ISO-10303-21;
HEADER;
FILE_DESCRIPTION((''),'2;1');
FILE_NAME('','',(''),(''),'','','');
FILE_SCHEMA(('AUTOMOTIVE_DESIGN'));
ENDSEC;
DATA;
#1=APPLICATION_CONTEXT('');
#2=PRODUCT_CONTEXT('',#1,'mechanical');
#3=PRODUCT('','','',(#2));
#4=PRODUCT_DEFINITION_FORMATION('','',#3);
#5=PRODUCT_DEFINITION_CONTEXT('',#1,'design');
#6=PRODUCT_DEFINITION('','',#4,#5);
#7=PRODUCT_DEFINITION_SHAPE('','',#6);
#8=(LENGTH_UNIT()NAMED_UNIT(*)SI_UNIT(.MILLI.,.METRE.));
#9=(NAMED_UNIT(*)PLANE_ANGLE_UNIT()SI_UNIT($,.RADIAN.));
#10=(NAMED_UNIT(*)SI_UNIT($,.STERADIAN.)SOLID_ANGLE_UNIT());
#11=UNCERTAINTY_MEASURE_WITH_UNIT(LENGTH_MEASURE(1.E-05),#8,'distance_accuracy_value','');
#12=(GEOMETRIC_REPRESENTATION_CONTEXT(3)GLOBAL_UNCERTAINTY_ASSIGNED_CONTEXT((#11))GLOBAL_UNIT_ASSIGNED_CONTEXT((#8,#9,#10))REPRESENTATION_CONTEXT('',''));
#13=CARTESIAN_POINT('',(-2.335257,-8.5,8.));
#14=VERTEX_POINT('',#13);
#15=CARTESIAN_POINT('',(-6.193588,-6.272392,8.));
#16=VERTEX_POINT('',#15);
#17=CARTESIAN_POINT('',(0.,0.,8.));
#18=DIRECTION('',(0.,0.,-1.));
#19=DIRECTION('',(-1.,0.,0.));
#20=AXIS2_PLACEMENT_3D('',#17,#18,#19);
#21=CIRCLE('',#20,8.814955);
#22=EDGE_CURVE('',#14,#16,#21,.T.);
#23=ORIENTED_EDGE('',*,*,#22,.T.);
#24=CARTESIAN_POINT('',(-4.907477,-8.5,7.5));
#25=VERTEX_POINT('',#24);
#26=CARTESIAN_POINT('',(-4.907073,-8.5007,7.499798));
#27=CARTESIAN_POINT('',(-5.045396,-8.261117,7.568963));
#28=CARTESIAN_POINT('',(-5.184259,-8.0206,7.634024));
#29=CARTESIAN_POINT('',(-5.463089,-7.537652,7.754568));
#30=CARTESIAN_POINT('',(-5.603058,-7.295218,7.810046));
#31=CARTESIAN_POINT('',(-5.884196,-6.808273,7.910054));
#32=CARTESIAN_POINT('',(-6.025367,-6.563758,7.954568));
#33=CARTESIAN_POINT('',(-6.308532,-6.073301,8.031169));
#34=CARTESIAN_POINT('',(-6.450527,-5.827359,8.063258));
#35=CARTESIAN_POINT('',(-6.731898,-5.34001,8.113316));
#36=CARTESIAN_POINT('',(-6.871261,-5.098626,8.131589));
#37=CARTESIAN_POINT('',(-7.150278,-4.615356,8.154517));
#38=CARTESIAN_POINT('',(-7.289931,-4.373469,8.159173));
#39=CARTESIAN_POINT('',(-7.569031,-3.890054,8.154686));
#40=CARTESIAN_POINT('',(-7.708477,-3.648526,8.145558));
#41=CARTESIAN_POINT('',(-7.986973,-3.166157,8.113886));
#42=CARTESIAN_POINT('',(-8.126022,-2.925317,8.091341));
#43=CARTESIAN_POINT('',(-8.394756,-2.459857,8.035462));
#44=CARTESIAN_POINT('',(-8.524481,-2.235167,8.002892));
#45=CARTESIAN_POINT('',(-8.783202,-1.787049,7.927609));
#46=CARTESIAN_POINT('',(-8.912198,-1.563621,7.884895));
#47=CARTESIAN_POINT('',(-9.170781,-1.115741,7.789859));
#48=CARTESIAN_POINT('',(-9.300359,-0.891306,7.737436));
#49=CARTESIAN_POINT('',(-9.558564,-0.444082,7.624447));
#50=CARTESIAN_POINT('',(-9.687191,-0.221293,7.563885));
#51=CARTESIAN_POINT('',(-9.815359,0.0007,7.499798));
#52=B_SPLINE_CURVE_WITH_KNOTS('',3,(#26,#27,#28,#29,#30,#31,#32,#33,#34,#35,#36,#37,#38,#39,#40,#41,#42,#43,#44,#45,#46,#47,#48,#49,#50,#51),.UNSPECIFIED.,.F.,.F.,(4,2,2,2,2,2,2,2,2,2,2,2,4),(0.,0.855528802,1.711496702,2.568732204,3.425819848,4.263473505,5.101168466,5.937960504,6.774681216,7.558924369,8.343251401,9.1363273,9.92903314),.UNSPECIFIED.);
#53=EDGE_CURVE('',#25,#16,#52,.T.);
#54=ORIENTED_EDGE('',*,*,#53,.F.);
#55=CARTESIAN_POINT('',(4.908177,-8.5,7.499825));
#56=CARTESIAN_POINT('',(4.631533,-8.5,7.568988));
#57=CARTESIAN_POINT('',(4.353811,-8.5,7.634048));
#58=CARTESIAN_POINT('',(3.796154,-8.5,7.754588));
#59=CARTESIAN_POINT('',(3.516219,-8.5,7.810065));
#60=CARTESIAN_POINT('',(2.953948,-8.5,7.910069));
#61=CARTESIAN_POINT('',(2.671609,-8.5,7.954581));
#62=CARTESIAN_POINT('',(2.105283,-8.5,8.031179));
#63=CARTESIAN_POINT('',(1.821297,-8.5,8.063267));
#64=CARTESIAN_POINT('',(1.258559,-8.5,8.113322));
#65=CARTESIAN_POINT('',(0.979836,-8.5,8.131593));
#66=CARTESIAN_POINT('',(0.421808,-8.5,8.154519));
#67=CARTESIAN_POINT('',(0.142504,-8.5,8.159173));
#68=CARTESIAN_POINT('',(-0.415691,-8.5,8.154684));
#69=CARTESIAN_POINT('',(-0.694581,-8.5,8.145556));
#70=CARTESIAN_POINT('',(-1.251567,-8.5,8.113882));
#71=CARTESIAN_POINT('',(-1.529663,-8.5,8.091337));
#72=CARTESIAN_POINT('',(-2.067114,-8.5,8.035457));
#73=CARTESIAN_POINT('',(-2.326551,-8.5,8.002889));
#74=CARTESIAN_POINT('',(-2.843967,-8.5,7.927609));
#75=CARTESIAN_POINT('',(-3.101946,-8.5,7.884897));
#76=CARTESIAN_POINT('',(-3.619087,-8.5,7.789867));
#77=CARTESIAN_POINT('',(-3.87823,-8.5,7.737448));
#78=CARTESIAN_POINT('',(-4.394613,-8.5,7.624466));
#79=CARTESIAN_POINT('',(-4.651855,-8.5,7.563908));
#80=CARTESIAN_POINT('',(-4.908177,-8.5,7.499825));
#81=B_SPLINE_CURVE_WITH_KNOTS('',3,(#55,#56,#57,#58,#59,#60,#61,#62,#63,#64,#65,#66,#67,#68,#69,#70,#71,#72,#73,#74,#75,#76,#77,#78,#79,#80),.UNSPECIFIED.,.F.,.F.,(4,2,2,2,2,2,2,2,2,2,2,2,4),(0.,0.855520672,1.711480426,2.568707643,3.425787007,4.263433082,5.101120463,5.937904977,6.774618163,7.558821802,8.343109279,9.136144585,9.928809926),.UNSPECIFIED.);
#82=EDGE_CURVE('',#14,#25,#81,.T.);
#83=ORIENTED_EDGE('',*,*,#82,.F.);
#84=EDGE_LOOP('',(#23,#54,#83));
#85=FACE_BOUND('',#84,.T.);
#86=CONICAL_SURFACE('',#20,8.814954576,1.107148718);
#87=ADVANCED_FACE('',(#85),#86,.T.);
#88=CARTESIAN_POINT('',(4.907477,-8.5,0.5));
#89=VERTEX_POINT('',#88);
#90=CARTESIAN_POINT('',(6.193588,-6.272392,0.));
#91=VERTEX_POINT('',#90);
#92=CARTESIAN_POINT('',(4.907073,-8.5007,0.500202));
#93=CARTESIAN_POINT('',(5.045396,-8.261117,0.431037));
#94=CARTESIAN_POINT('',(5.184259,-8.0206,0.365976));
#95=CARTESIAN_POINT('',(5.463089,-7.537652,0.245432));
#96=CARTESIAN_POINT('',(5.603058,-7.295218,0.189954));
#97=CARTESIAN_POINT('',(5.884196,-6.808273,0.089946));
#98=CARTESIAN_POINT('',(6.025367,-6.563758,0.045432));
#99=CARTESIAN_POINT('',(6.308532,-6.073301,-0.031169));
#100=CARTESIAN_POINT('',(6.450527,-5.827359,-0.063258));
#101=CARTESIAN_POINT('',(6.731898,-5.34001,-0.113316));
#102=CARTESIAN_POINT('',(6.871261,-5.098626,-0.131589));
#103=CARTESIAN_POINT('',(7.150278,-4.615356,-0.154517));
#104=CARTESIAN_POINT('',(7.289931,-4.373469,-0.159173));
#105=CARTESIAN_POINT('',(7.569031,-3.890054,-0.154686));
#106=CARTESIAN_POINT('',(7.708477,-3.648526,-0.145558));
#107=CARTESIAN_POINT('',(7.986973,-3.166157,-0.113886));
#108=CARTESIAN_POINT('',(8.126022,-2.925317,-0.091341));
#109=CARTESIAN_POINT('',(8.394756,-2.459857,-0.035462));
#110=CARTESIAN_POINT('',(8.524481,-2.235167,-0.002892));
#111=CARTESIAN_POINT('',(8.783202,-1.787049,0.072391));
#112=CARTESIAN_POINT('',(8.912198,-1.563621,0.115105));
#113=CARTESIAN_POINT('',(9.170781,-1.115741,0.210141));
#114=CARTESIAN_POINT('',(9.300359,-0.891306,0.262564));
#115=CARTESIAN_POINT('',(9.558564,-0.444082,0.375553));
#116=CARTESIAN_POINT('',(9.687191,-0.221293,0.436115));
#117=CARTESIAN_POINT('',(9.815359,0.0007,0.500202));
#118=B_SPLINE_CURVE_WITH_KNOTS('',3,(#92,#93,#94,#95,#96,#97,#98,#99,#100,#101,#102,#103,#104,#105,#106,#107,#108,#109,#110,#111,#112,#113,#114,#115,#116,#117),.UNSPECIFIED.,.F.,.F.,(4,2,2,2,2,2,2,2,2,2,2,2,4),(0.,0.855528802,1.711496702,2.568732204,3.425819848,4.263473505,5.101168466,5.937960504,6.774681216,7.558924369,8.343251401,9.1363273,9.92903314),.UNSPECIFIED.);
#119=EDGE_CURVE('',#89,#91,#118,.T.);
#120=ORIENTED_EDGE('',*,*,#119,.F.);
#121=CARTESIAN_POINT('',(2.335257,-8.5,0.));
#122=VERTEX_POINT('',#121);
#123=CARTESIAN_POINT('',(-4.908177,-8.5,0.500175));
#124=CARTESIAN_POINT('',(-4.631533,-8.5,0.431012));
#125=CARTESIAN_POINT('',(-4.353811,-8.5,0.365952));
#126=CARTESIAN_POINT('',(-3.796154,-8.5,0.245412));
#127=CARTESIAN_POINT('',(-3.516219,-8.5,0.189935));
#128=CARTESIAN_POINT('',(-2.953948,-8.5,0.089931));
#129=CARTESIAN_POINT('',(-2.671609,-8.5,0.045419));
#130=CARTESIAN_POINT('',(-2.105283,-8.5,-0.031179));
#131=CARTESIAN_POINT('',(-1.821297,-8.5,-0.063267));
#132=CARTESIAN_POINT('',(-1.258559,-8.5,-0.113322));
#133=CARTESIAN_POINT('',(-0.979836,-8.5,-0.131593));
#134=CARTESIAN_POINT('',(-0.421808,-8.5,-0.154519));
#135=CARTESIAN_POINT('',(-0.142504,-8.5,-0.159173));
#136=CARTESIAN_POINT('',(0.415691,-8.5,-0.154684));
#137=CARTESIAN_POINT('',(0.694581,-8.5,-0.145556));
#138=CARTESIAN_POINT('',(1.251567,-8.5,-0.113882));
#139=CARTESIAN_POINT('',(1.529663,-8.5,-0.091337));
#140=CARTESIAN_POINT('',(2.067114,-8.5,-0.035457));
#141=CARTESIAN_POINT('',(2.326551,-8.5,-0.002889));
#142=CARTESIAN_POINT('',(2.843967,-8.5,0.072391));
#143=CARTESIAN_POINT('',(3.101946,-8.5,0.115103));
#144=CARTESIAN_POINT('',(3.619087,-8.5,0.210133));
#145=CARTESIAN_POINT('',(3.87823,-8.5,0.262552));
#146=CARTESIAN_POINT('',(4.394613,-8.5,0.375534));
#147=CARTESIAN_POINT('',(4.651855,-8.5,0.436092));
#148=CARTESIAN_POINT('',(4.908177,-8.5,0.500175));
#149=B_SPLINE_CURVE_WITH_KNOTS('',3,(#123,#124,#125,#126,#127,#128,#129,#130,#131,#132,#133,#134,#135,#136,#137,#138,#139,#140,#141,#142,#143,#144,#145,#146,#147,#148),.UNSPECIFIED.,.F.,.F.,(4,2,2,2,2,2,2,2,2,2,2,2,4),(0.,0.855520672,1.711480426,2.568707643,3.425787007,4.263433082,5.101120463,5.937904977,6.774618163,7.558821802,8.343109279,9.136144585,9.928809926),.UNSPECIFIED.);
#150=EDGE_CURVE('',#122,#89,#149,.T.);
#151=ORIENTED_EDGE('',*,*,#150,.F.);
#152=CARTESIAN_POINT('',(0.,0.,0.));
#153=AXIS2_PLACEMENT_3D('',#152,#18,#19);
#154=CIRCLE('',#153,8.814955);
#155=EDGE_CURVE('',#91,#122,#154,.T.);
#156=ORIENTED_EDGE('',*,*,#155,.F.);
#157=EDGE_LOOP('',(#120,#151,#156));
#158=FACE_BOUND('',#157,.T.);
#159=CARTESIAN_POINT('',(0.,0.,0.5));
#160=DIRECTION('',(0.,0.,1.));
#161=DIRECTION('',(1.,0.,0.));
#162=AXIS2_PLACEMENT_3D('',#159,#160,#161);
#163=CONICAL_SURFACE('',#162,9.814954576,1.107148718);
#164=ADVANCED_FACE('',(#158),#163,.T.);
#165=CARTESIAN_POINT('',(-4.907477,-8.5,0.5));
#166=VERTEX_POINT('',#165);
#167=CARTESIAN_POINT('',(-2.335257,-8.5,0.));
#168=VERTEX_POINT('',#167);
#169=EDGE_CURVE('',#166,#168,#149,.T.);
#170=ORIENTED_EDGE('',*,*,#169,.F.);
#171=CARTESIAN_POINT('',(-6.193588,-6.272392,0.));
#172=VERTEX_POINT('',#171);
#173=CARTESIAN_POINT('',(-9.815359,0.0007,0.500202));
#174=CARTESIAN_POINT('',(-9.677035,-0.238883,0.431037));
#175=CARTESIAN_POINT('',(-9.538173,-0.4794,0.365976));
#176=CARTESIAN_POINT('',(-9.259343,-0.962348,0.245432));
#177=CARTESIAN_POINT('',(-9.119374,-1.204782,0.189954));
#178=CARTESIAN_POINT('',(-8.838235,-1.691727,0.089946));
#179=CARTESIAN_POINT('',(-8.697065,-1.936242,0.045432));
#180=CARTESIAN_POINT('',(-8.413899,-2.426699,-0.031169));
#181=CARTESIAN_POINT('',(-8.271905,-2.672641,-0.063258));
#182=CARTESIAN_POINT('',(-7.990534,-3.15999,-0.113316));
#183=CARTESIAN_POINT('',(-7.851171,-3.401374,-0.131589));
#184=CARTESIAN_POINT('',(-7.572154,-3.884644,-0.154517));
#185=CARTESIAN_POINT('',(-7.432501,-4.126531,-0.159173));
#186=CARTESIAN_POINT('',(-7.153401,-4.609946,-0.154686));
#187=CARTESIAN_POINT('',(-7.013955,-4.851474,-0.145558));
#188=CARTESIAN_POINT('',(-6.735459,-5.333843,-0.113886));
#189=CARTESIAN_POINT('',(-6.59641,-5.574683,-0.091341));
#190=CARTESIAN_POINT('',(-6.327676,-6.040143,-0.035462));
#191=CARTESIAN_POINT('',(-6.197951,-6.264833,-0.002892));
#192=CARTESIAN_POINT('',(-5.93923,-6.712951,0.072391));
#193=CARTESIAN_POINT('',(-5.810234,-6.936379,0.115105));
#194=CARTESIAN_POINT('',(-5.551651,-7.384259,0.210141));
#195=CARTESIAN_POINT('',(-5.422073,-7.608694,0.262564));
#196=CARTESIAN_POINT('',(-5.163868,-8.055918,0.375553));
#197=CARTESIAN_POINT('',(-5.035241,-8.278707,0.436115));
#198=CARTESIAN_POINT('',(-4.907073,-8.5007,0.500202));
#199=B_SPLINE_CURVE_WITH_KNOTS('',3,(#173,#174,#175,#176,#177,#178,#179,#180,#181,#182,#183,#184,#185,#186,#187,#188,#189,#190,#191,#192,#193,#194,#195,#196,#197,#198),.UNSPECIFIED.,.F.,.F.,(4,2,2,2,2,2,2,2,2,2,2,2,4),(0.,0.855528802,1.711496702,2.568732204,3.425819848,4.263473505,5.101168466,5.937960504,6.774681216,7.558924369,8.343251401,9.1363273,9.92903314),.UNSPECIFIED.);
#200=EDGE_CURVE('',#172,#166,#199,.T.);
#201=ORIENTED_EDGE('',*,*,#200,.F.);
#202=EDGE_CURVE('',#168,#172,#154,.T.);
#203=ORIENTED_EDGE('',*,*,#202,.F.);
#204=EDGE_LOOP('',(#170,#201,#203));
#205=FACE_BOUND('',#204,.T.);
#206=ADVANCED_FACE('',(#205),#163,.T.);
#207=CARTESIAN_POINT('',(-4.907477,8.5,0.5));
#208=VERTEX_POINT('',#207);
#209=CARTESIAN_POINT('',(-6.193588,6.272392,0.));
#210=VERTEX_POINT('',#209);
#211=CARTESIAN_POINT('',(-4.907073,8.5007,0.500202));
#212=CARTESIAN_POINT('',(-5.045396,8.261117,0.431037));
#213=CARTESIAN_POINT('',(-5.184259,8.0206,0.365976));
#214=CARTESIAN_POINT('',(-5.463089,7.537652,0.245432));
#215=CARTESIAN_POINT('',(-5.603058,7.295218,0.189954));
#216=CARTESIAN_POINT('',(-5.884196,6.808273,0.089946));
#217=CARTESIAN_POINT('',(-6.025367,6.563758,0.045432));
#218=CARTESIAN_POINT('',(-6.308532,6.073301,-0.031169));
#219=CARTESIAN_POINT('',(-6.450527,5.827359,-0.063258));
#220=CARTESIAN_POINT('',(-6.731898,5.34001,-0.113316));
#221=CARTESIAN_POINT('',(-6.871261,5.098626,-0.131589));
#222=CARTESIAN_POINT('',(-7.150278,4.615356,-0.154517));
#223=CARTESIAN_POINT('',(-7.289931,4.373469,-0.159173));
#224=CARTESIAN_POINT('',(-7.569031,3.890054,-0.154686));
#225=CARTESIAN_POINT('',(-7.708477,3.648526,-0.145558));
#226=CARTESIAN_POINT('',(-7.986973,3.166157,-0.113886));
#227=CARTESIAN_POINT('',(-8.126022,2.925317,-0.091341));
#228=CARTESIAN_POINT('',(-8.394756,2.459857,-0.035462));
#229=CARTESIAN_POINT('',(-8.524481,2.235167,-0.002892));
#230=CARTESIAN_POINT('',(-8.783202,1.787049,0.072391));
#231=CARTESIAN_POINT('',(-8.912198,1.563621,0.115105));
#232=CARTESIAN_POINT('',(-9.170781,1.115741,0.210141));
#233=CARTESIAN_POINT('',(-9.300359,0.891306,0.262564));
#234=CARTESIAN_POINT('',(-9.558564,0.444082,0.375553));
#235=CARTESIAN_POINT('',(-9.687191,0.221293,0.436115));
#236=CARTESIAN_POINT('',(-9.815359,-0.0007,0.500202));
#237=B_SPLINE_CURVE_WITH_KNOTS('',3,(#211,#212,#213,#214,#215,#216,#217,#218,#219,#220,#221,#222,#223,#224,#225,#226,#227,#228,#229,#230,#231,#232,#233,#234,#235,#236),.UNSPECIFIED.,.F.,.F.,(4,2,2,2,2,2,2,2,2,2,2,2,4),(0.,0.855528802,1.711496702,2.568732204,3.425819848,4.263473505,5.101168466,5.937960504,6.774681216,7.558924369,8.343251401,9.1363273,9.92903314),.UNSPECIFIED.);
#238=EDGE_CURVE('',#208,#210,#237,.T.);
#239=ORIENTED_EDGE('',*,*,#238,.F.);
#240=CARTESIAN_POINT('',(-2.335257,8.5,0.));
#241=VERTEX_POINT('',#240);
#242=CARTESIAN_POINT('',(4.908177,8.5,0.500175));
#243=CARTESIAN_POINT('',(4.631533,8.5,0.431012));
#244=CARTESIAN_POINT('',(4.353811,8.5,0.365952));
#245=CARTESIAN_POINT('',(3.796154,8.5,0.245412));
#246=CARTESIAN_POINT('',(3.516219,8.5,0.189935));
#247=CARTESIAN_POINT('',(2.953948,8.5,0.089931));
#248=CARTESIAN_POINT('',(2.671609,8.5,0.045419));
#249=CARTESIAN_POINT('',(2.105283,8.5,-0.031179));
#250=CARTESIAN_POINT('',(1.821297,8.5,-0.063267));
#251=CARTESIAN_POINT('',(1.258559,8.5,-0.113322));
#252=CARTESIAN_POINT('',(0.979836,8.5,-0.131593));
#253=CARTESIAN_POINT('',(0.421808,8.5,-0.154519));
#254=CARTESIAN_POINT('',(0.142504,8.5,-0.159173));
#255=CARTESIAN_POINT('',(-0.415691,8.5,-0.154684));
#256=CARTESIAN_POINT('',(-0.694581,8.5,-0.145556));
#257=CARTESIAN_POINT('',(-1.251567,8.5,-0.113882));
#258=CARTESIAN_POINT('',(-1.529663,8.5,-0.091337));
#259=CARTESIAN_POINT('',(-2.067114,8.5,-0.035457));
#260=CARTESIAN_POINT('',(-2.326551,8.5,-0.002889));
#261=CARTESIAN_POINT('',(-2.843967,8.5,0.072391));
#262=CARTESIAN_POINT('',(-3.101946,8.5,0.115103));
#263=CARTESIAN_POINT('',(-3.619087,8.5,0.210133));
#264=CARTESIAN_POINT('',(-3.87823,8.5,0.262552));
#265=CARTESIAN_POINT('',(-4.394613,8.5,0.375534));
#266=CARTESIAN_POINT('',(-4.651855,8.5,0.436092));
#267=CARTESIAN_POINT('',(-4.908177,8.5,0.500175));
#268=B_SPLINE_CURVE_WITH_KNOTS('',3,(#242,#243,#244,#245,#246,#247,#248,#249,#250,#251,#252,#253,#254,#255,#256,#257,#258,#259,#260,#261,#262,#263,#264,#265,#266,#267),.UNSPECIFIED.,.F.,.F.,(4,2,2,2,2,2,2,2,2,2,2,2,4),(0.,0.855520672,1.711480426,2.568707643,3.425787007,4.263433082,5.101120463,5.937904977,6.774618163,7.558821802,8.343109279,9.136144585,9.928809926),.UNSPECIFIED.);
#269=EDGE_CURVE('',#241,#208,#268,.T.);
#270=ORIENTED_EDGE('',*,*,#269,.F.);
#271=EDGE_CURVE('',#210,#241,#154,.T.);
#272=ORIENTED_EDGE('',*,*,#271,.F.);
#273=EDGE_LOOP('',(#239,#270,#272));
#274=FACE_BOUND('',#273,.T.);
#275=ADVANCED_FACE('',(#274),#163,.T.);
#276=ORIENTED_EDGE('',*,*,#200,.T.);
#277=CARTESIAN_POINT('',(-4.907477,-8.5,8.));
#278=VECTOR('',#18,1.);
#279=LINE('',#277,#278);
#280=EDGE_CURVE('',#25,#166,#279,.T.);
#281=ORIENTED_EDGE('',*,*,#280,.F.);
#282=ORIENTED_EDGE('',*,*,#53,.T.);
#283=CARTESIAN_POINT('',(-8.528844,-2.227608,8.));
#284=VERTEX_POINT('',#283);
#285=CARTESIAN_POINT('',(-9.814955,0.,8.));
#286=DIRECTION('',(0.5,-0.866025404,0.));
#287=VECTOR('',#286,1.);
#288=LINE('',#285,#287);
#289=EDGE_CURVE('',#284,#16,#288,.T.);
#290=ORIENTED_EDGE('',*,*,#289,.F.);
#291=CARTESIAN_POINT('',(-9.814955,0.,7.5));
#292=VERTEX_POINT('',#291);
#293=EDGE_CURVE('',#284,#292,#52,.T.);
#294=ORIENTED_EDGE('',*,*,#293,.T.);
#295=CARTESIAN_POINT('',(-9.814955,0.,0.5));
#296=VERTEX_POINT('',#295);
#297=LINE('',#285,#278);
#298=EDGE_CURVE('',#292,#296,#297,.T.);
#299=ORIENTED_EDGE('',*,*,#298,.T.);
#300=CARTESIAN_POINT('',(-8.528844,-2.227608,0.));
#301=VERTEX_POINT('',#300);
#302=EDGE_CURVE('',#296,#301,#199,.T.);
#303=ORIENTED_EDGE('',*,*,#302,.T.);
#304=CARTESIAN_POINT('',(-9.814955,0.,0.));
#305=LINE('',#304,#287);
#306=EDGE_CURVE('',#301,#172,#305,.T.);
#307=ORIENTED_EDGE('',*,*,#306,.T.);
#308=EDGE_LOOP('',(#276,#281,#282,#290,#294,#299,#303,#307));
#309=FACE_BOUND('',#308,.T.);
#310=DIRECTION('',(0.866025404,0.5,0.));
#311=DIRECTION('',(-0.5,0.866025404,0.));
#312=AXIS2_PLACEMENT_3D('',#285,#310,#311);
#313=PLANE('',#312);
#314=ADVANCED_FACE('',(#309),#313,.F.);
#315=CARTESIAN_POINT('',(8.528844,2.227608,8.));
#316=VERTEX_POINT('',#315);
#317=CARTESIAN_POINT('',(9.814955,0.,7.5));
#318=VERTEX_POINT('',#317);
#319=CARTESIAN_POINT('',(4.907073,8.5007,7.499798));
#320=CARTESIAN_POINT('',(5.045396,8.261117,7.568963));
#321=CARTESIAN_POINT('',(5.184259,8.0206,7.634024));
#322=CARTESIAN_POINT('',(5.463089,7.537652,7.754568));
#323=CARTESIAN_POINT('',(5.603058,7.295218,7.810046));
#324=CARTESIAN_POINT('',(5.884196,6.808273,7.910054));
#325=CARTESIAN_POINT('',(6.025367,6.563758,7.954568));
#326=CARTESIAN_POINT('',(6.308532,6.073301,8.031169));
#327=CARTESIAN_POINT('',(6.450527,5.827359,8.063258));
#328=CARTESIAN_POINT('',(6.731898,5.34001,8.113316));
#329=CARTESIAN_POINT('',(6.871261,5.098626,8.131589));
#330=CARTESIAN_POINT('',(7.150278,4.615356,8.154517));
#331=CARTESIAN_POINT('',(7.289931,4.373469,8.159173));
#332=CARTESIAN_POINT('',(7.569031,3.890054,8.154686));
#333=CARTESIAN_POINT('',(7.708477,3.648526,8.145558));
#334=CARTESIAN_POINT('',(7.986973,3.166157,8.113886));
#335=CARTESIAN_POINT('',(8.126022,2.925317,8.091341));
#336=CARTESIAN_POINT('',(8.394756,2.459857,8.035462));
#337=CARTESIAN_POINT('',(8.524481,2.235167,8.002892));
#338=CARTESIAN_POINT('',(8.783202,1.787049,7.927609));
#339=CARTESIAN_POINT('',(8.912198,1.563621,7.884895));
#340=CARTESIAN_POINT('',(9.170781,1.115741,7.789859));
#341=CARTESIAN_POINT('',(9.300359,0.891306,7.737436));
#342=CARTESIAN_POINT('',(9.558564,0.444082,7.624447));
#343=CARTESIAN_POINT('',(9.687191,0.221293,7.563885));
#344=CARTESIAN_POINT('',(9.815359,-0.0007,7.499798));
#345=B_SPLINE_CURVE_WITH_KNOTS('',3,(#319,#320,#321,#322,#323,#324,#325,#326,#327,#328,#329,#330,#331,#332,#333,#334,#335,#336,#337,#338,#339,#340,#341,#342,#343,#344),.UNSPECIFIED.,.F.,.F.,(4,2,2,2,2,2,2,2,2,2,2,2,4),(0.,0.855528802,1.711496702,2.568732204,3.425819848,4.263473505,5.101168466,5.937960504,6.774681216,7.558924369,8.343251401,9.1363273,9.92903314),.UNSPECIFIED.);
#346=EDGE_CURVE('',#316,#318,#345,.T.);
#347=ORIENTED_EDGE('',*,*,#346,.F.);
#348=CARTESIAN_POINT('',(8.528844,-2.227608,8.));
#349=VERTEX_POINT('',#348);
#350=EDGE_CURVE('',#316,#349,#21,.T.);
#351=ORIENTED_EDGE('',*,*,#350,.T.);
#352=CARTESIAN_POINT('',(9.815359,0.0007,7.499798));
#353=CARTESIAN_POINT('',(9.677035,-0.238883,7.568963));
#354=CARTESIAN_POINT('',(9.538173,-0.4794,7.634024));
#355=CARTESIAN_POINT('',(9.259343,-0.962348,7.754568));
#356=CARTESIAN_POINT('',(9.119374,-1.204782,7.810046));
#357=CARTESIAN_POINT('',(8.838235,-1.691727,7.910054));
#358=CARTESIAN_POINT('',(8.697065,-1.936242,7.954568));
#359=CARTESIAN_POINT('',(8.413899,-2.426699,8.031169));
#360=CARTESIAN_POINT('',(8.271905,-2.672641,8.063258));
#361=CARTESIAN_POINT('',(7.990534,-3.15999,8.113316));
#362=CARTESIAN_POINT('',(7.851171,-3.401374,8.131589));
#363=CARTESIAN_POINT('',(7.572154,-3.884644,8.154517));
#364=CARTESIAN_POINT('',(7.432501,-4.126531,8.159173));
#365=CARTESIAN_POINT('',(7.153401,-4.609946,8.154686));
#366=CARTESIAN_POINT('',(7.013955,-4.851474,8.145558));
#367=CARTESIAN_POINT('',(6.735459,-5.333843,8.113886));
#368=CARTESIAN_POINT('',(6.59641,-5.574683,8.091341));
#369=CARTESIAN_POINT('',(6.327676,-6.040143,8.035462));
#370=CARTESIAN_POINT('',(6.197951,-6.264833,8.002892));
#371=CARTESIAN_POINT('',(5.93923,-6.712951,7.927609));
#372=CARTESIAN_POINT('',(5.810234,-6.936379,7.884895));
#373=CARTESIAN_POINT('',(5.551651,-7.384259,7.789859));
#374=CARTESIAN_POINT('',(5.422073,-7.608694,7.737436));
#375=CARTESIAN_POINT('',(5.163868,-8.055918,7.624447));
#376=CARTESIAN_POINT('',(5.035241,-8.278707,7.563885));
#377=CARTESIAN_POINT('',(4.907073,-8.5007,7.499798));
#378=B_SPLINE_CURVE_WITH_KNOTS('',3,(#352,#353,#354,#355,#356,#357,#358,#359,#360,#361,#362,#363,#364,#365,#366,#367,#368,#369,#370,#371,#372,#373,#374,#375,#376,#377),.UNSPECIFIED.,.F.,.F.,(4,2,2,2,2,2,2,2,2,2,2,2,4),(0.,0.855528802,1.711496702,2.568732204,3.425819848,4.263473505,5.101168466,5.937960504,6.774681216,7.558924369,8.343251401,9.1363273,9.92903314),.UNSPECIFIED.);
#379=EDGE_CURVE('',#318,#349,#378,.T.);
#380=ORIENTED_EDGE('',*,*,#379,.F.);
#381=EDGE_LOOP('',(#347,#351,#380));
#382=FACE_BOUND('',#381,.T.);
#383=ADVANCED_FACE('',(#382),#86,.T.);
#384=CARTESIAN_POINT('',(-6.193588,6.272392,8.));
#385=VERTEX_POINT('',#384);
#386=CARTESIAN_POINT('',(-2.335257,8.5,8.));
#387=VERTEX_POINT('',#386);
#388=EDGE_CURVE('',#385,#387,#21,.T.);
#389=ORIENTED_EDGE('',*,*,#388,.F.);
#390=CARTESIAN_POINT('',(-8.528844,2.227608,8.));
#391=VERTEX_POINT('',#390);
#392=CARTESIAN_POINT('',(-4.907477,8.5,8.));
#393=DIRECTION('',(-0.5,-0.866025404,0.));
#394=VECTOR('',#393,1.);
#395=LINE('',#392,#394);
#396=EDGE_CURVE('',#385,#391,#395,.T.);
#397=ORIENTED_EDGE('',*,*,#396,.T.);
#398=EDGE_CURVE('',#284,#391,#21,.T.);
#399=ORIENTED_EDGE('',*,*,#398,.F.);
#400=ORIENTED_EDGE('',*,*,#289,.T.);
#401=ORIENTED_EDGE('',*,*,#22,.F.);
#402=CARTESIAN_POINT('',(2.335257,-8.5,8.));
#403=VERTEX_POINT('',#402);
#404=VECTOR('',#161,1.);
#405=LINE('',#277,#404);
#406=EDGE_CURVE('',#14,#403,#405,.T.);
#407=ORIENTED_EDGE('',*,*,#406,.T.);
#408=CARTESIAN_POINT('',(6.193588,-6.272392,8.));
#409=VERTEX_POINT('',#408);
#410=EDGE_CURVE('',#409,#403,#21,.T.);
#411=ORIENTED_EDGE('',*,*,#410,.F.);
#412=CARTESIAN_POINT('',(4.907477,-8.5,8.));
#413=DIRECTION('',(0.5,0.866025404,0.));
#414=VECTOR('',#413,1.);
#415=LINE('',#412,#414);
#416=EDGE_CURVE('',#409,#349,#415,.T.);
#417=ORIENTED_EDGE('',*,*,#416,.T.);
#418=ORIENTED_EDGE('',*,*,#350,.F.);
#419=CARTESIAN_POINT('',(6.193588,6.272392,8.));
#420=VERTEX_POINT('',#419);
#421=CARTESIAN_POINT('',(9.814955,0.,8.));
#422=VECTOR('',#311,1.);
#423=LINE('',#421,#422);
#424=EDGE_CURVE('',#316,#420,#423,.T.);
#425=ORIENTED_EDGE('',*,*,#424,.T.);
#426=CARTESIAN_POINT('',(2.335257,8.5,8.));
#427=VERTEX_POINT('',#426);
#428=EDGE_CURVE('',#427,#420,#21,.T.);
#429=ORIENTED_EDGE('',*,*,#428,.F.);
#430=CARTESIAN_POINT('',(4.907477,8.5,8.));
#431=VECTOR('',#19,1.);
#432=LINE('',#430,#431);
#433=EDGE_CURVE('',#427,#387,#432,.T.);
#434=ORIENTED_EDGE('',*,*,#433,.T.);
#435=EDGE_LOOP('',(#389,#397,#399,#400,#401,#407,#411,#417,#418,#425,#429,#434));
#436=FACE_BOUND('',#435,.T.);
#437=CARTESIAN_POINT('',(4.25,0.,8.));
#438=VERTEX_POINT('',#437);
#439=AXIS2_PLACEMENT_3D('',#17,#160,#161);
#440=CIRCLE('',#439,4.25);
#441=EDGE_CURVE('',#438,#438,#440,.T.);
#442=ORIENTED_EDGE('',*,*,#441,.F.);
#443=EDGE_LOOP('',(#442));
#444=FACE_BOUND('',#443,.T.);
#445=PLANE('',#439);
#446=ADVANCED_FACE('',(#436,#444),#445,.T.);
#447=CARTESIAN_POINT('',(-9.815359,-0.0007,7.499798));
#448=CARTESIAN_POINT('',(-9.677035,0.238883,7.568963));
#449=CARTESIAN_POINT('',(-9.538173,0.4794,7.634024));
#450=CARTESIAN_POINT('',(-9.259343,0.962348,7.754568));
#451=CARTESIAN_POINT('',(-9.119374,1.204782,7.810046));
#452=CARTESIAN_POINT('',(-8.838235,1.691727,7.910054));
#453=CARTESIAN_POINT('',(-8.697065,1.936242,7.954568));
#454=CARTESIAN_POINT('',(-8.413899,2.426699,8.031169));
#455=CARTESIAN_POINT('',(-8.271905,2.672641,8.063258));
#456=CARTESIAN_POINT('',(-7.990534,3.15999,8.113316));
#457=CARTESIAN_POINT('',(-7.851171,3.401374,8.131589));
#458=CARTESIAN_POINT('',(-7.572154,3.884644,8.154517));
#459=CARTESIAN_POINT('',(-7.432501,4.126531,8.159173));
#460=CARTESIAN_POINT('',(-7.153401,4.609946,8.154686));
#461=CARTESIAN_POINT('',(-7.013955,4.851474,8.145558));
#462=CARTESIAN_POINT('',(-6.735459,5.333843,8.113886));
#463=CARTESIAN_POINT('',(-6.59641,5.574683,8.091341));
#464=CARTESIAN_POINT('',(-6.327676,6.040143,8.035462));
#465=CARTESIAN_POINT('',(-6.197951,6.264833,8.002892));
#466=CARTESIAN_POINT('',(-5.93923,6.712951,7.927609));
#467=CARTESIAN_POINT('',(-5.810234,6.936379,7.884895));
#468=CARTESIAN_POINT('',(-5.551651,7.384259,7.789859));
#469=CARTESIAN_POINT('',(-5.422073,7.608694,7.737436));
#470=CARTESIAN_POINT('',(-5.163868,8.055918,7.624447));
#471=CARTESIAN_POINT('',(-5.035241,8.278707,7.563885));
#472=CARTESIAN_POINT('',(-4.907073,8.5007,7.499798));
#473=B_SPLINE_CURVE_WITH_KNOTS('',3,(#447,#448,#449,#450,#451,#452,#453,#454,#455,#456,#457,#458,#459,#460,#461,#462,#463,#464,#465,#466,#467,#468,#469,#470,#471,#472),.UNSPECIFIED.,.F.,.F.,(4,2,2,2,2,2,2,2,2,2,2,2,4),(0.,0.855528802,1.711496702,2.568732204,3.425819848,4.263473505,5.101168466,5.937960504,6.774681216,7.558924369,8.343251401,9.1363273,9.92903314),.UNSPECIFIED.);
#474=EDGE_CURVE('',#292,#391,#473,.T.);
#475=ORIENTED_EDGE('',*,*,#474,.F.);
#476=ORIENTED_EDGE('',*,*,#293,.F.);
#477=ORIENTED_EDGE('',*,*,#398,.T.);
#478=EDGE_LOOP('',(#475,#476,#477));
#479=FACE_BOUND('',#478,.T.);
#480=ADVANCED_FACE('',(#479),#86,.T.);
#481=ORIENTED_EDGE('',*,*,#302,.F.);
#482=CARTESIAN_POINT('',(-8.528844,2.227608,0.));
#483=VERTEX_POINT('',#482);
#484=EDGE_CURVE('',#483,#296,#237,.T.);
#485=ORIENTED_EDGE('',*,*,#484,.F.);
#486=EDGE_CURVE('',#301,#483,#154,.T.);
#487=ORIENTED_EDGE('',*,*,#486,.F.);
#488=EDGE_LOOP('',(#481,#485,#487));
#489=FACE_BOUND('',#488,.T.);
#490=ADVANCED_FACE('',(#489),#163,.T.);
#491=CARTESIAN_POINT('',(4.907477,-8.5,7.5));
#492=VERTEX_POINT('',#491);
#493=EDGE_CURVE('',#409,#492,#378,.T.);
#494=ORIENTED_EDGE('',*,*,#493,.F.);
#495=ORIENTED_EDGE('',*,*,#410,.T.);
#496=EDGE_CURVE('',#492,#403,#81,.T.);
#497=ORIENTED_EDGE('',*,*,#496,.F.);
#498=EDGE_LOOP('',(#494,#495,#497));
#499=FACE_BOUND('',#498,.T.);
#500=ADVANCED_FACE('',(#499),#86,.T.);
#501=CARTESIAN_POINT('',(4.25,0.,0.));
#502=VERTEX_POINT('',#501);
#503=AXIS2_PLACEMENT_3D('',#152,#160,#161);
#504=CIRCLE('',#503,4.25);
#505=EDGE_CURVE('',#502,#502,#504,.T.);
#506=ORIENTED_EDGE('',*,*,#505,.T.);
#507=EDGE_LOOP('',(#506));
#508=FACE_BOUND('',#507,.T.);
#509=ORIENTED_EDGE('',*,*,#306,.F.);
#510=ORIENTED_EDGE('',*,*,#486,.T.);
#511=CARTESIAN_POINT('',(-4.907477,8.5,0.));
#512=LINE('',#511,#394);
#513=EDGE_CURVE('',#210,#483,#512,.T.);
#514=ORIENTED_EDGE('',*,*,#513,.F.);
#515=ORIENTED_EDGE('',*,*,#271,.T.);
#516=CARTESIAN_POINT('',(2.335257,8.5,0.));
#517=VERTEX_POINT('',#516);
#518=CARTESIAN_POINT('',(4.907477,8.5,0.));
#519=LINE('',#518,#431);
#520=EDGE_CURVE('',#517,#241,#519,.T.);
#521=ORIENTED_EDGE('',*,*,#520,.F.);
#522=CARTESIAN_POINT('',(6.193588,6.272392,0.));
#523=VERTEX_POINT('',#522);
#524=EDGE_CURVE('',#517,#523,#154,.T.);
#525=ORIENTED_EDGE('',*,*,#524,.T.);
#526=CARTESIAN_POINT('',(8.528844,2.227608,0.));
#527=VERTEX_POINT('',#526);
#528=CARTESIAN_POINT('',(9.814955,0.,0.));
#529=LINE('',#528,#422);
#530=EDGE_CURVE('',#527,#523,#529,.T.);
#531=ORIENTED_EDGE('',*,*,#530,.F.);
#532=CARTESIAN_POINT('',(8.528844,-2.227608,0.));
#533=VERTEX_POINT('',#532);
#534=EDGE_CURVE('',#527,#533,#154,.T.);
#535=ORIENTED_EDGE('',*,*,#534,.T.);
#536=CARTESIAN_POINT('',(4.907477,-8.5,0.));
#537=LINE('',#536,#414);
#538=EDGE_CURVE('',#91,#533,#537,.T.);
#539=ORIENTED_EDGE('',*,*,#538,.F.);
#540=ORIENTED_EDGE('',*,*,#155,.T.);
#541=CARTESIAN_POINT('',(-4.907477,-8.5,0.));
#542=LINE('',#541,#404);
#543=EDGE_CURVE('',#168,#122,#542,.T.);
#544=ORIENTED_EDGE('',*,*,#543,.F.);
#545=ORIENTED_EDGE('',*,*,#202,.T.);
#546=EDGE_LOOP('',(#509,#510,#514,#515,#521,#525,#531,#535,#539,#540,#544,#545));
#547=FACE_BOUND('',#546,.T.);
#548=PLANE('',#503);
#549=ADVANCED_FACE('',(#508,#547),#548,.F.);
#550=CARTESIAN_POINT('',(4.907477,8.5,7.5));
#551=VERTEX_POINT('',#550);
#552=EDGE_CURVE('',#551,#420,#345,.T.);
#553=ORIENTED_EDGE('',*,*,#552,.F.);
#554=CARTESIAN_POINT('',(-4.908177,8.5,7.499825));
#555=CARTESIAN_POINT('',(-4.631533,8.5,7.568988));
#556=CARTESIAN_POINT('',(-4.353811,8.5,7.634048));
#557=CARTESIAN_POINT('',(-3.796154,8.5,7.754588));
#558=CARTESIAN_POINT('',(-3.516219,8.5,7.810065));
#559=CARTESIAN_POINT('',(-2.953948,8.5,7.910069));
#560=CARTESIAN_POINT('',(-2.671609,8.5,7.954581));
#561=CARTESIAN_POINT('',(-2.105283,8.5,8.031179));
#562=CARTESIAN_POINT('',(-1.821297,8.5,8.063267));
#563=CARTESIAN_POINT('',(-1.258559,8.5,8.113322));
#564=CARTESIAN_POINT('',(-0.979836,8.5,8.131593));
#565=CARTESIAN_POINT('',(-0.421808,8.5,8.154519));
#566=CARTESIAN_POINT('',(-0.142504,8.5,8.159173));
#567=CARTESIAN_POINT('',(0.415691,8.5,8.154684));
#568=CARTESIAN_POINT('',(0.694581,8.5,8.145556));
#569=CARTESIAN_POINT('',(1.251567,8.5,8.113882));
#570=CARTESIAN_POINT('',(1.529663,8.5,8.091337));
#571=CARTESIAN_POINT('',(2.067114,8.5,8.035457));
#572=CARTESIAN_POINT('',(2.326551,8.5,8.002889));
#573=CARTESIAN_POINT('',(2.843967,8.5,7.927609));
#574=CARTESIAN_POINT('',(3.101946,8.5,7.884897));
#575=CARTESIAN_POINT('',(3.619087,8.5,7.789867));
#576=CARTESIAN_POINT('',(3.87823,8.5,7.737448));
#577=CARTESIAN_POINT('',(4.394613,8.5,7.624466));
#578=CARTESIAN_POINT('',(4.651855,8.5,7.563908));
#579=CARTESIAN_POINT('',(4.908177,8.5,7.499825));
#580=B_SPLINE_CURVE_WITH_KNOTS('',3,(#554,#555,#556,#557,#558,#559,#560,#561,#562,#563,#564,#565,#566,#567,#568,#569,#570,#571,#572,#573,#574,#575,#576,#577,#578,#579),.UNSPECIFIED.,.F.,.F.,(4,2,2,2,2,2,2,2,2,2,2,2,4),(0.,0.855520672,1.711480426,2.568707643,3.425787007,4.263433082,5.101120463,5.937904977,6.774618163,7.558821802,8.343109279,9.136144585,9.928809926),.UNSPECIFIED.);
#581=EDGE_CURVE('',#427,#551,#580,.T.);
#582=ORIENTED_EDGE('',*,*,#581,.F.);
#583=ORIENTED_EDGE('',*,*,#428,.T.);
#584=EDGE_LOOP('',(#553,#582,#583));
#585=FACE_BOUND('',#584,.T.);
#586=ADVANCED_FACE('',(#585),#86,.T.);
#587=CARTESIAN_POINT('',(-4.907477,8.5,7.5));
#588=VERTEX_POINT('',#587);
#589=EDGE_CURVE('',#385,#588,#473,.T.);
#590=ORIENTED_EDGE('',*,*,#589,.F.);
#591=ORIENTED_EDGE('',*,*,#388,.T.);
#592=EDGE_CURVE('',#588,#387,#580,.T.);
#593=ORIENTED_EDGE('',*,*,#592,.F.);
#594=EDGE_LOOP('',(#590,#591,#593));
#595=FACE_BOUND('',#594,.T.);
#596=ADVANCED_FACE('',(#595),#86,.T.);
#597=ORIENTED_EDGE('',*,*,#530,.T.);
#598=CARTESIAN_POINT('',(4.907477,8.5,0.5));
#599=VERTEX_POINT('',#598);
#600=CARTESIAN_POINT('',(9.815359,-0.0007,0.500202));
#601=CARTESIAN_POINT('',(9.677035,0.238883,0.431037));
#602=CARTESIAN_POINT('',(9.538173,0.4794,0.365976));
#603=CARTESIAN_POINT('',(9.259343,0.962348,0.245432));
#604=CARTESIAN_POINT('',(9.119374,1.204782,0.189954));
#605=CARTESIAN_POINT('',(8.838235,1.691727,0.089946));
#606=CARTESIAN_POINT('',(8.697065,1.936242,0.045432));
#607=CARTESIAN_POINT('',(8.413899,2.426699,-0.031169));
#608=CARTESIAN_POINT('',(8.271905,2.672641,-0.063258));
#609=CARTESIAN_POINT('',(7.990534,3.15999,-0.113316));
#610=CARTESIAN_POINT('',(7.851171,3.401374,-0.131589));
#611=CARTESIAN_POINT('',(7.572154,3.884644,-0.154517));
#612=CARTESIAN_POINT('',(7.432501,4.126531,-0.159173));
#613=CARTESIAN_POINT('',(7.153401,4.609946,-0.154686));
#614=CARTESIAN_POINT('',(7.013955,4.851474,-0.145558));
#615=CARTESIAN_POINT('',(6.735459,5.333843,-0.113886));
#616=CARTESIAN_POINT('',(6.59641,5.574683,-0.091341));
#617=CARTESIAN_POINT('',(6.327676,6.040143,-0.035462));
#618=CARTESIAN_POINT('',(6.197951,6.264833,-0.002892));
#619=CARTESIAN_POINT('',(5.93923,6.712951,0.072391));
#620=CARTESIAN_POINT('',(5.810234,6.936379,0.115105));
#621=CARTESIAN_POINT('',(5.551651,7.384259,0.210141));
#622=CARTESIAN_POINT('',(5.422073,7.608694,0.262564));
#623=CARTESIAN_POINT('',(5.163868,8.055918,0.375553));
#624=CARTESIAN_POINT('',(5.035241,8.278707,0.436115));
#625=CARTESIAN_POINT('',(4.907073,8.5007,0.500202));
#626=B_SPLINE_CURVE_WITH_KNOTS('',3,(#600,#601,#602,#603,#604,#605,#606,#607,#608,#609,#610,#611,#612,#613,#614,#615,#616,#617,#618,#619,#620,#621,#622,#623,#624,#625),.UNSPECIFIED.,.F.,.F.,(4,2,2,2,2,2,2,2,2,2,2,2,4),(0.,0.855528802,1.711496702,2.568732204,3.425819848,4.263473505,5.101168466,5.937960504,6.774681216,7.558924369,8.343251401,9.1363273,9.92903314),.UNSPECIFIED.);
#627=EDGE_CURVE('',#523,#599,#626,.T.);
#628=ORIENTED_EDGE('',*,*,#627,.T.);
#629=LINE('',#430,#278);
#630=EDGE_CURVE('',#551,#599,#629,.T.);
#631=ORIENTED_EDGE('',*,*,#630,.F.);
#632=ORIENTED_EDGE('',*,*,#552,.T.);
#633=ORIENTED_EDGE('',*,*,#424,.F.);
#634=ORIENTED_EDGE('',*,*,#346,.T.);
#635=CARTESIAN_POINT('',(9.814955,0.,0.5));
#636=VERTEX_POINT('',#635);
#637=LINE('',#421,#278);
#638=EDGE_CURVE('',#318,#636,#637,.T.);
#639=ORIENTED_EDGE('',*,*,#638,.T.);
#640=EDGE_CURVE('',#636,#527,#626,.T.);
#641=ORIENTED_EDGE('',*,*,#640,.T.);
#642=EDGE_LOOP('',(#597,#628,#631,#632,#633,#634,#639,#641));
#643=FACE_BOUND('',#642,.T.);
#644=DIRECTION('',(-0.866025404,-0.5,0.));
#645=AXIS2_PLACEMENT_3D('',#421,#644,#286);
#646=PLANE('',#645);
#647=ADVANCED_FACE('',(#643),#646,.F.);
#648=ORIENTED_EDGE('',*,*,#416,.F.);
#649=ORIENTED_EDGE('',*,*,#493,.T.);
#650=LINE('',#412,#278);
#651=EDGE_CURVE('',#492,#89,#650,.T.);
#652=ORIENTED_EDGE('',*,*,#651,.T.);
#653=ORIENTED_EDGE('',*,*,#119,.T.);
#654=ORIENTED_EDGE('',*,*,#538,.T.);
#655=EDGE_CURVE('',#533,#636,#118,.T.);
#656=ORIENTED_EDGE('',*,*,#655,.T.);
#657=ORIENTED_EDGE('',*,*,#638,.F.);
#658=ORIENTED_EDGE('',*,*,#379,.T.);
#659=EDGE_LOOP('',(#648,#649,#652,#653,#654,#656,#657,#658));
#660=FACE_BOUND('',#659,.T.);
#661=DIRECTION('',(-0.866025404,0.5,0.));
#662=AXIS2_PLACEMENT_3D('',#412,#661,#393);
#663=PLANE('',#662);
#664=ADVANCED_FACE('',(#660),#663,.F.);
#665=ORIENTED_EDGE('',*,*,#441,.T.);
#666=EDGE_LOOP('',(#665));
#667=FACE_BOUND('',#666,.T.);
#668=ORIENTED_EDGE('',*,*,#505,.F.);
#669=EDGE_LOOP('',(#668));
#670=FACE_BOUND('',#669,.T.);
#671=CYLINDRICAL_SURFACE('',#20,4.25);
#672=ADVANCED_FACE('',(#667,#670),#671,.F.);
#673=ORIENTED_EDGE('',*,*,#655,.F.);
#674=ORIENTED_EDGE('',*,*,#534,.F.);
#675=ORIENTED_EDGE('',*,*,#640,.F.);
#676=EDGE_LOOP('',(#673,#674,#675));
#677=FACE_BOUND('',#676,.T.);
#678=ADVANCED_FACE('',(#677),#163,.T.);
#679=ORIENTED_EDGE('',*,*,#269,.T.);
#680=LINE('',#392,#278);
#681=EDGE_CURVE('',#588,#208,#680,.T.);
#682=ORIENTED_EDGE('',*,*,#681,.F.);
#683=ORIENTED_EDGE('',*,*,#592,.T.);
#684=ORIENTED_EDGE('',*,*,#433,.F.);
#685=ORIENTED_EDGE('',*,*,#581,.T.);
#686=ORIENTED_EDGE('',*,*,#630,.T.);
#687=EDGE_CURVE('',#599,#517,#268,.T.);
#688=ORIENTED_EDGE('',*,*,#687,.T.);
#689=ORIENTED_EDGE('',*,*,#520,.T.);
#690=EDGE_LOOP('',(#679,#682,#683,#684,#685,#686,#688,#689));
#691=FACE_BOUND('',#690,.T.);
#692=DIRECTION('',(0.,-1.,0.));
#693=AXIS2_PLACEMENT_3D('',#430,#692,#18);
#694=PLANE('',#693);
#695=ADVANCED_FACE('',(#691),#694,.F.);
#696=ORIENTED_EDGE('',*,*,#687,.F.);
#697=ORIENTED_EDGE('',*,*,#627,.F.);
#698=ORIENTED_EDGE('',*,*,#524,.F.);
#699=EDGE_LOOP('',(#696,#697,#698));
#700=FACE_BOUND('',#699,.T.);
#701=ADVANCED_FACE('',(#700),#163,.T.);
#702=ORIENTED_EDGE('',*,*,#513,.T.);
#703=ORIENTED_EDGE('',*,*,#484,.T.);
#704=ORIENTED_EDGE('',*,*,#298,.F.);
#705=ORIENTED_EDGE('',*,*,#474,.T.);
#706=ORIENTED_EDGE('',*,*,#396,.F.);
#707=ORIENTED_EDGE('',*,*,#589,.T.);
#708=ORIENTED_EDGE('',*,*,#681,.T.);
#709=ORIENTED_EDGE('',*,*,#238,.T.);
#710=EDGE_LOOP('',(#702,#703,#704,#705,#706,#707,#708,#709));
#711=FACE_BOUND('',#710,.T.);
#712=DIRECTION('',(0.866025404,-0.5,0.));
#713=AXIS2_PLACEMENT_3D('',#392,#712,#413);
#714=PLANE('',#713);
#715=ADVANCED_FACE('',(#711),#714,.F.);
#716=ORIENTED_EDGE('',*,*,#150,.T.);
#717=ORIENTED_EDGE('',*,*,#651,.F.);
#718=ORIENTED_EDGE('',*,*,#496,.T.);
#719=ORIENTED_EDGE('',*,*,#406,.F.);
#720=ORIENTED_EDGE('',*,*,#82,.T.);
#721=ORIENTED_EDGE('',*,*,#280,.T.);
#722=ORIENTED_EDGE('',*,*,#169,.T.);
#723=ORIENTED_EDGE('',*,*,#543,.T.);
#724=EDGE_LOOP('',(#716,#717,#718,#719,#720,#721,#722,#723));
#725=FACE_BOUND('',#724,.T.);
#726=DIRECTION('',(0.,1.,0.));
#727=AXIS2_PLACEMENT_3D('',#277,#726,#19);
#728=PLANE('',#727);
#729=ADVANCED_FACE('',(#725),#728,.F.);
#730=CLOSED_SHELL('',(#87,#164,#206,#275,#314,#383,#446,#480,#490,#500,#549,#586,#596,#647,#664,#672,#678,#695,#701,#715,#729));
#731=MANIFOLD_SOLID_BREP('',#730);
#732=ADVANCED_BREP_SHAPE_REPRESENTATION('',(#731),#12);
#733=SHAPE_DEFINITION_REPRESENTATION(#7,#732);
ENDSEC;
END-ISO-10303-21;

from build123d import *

# Parameters (mm, degrees)
IZIM1_R                     = 4.25
Y_KSEKLIK_EKSTR_ZYON1_DEPTH = 8


with BuildPart() as part:
    # Çizim1 → Yükseklik-Ekstrüzyon1 (new body)
    with BuildSketch(Plane.XY):
        Polygon((9.814954576, 0), (4.907477288, 8.5), (-4.907477288, 8.5), (-9.814954576, 0), (-4.907477288, -8.5), (4.907477288, -8.5), align=None)
        Circle(IZIM1_R, mode=Mode.SUBTRACT)
    extrude(amount=Y_KSEKLIK_EKSTR_ZYON1_DEPTH)

    # Çizim2 → Kes-Döndür1 (revolve, cut)
    with BuildSketch(Plane(origin=(0, 0, 0), x_dir=(1, 0, 0), z_dir=(0, 1, 0))):
        Polygon((-9.814954576, 0), (-8.814954576, 0), (-9.814954576, -0.5), align=None)
        Polygon((-9.814954576, -8), (-9.814954576, -7.5), (-8.814954576, -8), align=None)
    revolve(axis=Axis((0, 0, 0), (0, 0, 1)), mode=Mode.SUBTRACT)


solid = part.part
